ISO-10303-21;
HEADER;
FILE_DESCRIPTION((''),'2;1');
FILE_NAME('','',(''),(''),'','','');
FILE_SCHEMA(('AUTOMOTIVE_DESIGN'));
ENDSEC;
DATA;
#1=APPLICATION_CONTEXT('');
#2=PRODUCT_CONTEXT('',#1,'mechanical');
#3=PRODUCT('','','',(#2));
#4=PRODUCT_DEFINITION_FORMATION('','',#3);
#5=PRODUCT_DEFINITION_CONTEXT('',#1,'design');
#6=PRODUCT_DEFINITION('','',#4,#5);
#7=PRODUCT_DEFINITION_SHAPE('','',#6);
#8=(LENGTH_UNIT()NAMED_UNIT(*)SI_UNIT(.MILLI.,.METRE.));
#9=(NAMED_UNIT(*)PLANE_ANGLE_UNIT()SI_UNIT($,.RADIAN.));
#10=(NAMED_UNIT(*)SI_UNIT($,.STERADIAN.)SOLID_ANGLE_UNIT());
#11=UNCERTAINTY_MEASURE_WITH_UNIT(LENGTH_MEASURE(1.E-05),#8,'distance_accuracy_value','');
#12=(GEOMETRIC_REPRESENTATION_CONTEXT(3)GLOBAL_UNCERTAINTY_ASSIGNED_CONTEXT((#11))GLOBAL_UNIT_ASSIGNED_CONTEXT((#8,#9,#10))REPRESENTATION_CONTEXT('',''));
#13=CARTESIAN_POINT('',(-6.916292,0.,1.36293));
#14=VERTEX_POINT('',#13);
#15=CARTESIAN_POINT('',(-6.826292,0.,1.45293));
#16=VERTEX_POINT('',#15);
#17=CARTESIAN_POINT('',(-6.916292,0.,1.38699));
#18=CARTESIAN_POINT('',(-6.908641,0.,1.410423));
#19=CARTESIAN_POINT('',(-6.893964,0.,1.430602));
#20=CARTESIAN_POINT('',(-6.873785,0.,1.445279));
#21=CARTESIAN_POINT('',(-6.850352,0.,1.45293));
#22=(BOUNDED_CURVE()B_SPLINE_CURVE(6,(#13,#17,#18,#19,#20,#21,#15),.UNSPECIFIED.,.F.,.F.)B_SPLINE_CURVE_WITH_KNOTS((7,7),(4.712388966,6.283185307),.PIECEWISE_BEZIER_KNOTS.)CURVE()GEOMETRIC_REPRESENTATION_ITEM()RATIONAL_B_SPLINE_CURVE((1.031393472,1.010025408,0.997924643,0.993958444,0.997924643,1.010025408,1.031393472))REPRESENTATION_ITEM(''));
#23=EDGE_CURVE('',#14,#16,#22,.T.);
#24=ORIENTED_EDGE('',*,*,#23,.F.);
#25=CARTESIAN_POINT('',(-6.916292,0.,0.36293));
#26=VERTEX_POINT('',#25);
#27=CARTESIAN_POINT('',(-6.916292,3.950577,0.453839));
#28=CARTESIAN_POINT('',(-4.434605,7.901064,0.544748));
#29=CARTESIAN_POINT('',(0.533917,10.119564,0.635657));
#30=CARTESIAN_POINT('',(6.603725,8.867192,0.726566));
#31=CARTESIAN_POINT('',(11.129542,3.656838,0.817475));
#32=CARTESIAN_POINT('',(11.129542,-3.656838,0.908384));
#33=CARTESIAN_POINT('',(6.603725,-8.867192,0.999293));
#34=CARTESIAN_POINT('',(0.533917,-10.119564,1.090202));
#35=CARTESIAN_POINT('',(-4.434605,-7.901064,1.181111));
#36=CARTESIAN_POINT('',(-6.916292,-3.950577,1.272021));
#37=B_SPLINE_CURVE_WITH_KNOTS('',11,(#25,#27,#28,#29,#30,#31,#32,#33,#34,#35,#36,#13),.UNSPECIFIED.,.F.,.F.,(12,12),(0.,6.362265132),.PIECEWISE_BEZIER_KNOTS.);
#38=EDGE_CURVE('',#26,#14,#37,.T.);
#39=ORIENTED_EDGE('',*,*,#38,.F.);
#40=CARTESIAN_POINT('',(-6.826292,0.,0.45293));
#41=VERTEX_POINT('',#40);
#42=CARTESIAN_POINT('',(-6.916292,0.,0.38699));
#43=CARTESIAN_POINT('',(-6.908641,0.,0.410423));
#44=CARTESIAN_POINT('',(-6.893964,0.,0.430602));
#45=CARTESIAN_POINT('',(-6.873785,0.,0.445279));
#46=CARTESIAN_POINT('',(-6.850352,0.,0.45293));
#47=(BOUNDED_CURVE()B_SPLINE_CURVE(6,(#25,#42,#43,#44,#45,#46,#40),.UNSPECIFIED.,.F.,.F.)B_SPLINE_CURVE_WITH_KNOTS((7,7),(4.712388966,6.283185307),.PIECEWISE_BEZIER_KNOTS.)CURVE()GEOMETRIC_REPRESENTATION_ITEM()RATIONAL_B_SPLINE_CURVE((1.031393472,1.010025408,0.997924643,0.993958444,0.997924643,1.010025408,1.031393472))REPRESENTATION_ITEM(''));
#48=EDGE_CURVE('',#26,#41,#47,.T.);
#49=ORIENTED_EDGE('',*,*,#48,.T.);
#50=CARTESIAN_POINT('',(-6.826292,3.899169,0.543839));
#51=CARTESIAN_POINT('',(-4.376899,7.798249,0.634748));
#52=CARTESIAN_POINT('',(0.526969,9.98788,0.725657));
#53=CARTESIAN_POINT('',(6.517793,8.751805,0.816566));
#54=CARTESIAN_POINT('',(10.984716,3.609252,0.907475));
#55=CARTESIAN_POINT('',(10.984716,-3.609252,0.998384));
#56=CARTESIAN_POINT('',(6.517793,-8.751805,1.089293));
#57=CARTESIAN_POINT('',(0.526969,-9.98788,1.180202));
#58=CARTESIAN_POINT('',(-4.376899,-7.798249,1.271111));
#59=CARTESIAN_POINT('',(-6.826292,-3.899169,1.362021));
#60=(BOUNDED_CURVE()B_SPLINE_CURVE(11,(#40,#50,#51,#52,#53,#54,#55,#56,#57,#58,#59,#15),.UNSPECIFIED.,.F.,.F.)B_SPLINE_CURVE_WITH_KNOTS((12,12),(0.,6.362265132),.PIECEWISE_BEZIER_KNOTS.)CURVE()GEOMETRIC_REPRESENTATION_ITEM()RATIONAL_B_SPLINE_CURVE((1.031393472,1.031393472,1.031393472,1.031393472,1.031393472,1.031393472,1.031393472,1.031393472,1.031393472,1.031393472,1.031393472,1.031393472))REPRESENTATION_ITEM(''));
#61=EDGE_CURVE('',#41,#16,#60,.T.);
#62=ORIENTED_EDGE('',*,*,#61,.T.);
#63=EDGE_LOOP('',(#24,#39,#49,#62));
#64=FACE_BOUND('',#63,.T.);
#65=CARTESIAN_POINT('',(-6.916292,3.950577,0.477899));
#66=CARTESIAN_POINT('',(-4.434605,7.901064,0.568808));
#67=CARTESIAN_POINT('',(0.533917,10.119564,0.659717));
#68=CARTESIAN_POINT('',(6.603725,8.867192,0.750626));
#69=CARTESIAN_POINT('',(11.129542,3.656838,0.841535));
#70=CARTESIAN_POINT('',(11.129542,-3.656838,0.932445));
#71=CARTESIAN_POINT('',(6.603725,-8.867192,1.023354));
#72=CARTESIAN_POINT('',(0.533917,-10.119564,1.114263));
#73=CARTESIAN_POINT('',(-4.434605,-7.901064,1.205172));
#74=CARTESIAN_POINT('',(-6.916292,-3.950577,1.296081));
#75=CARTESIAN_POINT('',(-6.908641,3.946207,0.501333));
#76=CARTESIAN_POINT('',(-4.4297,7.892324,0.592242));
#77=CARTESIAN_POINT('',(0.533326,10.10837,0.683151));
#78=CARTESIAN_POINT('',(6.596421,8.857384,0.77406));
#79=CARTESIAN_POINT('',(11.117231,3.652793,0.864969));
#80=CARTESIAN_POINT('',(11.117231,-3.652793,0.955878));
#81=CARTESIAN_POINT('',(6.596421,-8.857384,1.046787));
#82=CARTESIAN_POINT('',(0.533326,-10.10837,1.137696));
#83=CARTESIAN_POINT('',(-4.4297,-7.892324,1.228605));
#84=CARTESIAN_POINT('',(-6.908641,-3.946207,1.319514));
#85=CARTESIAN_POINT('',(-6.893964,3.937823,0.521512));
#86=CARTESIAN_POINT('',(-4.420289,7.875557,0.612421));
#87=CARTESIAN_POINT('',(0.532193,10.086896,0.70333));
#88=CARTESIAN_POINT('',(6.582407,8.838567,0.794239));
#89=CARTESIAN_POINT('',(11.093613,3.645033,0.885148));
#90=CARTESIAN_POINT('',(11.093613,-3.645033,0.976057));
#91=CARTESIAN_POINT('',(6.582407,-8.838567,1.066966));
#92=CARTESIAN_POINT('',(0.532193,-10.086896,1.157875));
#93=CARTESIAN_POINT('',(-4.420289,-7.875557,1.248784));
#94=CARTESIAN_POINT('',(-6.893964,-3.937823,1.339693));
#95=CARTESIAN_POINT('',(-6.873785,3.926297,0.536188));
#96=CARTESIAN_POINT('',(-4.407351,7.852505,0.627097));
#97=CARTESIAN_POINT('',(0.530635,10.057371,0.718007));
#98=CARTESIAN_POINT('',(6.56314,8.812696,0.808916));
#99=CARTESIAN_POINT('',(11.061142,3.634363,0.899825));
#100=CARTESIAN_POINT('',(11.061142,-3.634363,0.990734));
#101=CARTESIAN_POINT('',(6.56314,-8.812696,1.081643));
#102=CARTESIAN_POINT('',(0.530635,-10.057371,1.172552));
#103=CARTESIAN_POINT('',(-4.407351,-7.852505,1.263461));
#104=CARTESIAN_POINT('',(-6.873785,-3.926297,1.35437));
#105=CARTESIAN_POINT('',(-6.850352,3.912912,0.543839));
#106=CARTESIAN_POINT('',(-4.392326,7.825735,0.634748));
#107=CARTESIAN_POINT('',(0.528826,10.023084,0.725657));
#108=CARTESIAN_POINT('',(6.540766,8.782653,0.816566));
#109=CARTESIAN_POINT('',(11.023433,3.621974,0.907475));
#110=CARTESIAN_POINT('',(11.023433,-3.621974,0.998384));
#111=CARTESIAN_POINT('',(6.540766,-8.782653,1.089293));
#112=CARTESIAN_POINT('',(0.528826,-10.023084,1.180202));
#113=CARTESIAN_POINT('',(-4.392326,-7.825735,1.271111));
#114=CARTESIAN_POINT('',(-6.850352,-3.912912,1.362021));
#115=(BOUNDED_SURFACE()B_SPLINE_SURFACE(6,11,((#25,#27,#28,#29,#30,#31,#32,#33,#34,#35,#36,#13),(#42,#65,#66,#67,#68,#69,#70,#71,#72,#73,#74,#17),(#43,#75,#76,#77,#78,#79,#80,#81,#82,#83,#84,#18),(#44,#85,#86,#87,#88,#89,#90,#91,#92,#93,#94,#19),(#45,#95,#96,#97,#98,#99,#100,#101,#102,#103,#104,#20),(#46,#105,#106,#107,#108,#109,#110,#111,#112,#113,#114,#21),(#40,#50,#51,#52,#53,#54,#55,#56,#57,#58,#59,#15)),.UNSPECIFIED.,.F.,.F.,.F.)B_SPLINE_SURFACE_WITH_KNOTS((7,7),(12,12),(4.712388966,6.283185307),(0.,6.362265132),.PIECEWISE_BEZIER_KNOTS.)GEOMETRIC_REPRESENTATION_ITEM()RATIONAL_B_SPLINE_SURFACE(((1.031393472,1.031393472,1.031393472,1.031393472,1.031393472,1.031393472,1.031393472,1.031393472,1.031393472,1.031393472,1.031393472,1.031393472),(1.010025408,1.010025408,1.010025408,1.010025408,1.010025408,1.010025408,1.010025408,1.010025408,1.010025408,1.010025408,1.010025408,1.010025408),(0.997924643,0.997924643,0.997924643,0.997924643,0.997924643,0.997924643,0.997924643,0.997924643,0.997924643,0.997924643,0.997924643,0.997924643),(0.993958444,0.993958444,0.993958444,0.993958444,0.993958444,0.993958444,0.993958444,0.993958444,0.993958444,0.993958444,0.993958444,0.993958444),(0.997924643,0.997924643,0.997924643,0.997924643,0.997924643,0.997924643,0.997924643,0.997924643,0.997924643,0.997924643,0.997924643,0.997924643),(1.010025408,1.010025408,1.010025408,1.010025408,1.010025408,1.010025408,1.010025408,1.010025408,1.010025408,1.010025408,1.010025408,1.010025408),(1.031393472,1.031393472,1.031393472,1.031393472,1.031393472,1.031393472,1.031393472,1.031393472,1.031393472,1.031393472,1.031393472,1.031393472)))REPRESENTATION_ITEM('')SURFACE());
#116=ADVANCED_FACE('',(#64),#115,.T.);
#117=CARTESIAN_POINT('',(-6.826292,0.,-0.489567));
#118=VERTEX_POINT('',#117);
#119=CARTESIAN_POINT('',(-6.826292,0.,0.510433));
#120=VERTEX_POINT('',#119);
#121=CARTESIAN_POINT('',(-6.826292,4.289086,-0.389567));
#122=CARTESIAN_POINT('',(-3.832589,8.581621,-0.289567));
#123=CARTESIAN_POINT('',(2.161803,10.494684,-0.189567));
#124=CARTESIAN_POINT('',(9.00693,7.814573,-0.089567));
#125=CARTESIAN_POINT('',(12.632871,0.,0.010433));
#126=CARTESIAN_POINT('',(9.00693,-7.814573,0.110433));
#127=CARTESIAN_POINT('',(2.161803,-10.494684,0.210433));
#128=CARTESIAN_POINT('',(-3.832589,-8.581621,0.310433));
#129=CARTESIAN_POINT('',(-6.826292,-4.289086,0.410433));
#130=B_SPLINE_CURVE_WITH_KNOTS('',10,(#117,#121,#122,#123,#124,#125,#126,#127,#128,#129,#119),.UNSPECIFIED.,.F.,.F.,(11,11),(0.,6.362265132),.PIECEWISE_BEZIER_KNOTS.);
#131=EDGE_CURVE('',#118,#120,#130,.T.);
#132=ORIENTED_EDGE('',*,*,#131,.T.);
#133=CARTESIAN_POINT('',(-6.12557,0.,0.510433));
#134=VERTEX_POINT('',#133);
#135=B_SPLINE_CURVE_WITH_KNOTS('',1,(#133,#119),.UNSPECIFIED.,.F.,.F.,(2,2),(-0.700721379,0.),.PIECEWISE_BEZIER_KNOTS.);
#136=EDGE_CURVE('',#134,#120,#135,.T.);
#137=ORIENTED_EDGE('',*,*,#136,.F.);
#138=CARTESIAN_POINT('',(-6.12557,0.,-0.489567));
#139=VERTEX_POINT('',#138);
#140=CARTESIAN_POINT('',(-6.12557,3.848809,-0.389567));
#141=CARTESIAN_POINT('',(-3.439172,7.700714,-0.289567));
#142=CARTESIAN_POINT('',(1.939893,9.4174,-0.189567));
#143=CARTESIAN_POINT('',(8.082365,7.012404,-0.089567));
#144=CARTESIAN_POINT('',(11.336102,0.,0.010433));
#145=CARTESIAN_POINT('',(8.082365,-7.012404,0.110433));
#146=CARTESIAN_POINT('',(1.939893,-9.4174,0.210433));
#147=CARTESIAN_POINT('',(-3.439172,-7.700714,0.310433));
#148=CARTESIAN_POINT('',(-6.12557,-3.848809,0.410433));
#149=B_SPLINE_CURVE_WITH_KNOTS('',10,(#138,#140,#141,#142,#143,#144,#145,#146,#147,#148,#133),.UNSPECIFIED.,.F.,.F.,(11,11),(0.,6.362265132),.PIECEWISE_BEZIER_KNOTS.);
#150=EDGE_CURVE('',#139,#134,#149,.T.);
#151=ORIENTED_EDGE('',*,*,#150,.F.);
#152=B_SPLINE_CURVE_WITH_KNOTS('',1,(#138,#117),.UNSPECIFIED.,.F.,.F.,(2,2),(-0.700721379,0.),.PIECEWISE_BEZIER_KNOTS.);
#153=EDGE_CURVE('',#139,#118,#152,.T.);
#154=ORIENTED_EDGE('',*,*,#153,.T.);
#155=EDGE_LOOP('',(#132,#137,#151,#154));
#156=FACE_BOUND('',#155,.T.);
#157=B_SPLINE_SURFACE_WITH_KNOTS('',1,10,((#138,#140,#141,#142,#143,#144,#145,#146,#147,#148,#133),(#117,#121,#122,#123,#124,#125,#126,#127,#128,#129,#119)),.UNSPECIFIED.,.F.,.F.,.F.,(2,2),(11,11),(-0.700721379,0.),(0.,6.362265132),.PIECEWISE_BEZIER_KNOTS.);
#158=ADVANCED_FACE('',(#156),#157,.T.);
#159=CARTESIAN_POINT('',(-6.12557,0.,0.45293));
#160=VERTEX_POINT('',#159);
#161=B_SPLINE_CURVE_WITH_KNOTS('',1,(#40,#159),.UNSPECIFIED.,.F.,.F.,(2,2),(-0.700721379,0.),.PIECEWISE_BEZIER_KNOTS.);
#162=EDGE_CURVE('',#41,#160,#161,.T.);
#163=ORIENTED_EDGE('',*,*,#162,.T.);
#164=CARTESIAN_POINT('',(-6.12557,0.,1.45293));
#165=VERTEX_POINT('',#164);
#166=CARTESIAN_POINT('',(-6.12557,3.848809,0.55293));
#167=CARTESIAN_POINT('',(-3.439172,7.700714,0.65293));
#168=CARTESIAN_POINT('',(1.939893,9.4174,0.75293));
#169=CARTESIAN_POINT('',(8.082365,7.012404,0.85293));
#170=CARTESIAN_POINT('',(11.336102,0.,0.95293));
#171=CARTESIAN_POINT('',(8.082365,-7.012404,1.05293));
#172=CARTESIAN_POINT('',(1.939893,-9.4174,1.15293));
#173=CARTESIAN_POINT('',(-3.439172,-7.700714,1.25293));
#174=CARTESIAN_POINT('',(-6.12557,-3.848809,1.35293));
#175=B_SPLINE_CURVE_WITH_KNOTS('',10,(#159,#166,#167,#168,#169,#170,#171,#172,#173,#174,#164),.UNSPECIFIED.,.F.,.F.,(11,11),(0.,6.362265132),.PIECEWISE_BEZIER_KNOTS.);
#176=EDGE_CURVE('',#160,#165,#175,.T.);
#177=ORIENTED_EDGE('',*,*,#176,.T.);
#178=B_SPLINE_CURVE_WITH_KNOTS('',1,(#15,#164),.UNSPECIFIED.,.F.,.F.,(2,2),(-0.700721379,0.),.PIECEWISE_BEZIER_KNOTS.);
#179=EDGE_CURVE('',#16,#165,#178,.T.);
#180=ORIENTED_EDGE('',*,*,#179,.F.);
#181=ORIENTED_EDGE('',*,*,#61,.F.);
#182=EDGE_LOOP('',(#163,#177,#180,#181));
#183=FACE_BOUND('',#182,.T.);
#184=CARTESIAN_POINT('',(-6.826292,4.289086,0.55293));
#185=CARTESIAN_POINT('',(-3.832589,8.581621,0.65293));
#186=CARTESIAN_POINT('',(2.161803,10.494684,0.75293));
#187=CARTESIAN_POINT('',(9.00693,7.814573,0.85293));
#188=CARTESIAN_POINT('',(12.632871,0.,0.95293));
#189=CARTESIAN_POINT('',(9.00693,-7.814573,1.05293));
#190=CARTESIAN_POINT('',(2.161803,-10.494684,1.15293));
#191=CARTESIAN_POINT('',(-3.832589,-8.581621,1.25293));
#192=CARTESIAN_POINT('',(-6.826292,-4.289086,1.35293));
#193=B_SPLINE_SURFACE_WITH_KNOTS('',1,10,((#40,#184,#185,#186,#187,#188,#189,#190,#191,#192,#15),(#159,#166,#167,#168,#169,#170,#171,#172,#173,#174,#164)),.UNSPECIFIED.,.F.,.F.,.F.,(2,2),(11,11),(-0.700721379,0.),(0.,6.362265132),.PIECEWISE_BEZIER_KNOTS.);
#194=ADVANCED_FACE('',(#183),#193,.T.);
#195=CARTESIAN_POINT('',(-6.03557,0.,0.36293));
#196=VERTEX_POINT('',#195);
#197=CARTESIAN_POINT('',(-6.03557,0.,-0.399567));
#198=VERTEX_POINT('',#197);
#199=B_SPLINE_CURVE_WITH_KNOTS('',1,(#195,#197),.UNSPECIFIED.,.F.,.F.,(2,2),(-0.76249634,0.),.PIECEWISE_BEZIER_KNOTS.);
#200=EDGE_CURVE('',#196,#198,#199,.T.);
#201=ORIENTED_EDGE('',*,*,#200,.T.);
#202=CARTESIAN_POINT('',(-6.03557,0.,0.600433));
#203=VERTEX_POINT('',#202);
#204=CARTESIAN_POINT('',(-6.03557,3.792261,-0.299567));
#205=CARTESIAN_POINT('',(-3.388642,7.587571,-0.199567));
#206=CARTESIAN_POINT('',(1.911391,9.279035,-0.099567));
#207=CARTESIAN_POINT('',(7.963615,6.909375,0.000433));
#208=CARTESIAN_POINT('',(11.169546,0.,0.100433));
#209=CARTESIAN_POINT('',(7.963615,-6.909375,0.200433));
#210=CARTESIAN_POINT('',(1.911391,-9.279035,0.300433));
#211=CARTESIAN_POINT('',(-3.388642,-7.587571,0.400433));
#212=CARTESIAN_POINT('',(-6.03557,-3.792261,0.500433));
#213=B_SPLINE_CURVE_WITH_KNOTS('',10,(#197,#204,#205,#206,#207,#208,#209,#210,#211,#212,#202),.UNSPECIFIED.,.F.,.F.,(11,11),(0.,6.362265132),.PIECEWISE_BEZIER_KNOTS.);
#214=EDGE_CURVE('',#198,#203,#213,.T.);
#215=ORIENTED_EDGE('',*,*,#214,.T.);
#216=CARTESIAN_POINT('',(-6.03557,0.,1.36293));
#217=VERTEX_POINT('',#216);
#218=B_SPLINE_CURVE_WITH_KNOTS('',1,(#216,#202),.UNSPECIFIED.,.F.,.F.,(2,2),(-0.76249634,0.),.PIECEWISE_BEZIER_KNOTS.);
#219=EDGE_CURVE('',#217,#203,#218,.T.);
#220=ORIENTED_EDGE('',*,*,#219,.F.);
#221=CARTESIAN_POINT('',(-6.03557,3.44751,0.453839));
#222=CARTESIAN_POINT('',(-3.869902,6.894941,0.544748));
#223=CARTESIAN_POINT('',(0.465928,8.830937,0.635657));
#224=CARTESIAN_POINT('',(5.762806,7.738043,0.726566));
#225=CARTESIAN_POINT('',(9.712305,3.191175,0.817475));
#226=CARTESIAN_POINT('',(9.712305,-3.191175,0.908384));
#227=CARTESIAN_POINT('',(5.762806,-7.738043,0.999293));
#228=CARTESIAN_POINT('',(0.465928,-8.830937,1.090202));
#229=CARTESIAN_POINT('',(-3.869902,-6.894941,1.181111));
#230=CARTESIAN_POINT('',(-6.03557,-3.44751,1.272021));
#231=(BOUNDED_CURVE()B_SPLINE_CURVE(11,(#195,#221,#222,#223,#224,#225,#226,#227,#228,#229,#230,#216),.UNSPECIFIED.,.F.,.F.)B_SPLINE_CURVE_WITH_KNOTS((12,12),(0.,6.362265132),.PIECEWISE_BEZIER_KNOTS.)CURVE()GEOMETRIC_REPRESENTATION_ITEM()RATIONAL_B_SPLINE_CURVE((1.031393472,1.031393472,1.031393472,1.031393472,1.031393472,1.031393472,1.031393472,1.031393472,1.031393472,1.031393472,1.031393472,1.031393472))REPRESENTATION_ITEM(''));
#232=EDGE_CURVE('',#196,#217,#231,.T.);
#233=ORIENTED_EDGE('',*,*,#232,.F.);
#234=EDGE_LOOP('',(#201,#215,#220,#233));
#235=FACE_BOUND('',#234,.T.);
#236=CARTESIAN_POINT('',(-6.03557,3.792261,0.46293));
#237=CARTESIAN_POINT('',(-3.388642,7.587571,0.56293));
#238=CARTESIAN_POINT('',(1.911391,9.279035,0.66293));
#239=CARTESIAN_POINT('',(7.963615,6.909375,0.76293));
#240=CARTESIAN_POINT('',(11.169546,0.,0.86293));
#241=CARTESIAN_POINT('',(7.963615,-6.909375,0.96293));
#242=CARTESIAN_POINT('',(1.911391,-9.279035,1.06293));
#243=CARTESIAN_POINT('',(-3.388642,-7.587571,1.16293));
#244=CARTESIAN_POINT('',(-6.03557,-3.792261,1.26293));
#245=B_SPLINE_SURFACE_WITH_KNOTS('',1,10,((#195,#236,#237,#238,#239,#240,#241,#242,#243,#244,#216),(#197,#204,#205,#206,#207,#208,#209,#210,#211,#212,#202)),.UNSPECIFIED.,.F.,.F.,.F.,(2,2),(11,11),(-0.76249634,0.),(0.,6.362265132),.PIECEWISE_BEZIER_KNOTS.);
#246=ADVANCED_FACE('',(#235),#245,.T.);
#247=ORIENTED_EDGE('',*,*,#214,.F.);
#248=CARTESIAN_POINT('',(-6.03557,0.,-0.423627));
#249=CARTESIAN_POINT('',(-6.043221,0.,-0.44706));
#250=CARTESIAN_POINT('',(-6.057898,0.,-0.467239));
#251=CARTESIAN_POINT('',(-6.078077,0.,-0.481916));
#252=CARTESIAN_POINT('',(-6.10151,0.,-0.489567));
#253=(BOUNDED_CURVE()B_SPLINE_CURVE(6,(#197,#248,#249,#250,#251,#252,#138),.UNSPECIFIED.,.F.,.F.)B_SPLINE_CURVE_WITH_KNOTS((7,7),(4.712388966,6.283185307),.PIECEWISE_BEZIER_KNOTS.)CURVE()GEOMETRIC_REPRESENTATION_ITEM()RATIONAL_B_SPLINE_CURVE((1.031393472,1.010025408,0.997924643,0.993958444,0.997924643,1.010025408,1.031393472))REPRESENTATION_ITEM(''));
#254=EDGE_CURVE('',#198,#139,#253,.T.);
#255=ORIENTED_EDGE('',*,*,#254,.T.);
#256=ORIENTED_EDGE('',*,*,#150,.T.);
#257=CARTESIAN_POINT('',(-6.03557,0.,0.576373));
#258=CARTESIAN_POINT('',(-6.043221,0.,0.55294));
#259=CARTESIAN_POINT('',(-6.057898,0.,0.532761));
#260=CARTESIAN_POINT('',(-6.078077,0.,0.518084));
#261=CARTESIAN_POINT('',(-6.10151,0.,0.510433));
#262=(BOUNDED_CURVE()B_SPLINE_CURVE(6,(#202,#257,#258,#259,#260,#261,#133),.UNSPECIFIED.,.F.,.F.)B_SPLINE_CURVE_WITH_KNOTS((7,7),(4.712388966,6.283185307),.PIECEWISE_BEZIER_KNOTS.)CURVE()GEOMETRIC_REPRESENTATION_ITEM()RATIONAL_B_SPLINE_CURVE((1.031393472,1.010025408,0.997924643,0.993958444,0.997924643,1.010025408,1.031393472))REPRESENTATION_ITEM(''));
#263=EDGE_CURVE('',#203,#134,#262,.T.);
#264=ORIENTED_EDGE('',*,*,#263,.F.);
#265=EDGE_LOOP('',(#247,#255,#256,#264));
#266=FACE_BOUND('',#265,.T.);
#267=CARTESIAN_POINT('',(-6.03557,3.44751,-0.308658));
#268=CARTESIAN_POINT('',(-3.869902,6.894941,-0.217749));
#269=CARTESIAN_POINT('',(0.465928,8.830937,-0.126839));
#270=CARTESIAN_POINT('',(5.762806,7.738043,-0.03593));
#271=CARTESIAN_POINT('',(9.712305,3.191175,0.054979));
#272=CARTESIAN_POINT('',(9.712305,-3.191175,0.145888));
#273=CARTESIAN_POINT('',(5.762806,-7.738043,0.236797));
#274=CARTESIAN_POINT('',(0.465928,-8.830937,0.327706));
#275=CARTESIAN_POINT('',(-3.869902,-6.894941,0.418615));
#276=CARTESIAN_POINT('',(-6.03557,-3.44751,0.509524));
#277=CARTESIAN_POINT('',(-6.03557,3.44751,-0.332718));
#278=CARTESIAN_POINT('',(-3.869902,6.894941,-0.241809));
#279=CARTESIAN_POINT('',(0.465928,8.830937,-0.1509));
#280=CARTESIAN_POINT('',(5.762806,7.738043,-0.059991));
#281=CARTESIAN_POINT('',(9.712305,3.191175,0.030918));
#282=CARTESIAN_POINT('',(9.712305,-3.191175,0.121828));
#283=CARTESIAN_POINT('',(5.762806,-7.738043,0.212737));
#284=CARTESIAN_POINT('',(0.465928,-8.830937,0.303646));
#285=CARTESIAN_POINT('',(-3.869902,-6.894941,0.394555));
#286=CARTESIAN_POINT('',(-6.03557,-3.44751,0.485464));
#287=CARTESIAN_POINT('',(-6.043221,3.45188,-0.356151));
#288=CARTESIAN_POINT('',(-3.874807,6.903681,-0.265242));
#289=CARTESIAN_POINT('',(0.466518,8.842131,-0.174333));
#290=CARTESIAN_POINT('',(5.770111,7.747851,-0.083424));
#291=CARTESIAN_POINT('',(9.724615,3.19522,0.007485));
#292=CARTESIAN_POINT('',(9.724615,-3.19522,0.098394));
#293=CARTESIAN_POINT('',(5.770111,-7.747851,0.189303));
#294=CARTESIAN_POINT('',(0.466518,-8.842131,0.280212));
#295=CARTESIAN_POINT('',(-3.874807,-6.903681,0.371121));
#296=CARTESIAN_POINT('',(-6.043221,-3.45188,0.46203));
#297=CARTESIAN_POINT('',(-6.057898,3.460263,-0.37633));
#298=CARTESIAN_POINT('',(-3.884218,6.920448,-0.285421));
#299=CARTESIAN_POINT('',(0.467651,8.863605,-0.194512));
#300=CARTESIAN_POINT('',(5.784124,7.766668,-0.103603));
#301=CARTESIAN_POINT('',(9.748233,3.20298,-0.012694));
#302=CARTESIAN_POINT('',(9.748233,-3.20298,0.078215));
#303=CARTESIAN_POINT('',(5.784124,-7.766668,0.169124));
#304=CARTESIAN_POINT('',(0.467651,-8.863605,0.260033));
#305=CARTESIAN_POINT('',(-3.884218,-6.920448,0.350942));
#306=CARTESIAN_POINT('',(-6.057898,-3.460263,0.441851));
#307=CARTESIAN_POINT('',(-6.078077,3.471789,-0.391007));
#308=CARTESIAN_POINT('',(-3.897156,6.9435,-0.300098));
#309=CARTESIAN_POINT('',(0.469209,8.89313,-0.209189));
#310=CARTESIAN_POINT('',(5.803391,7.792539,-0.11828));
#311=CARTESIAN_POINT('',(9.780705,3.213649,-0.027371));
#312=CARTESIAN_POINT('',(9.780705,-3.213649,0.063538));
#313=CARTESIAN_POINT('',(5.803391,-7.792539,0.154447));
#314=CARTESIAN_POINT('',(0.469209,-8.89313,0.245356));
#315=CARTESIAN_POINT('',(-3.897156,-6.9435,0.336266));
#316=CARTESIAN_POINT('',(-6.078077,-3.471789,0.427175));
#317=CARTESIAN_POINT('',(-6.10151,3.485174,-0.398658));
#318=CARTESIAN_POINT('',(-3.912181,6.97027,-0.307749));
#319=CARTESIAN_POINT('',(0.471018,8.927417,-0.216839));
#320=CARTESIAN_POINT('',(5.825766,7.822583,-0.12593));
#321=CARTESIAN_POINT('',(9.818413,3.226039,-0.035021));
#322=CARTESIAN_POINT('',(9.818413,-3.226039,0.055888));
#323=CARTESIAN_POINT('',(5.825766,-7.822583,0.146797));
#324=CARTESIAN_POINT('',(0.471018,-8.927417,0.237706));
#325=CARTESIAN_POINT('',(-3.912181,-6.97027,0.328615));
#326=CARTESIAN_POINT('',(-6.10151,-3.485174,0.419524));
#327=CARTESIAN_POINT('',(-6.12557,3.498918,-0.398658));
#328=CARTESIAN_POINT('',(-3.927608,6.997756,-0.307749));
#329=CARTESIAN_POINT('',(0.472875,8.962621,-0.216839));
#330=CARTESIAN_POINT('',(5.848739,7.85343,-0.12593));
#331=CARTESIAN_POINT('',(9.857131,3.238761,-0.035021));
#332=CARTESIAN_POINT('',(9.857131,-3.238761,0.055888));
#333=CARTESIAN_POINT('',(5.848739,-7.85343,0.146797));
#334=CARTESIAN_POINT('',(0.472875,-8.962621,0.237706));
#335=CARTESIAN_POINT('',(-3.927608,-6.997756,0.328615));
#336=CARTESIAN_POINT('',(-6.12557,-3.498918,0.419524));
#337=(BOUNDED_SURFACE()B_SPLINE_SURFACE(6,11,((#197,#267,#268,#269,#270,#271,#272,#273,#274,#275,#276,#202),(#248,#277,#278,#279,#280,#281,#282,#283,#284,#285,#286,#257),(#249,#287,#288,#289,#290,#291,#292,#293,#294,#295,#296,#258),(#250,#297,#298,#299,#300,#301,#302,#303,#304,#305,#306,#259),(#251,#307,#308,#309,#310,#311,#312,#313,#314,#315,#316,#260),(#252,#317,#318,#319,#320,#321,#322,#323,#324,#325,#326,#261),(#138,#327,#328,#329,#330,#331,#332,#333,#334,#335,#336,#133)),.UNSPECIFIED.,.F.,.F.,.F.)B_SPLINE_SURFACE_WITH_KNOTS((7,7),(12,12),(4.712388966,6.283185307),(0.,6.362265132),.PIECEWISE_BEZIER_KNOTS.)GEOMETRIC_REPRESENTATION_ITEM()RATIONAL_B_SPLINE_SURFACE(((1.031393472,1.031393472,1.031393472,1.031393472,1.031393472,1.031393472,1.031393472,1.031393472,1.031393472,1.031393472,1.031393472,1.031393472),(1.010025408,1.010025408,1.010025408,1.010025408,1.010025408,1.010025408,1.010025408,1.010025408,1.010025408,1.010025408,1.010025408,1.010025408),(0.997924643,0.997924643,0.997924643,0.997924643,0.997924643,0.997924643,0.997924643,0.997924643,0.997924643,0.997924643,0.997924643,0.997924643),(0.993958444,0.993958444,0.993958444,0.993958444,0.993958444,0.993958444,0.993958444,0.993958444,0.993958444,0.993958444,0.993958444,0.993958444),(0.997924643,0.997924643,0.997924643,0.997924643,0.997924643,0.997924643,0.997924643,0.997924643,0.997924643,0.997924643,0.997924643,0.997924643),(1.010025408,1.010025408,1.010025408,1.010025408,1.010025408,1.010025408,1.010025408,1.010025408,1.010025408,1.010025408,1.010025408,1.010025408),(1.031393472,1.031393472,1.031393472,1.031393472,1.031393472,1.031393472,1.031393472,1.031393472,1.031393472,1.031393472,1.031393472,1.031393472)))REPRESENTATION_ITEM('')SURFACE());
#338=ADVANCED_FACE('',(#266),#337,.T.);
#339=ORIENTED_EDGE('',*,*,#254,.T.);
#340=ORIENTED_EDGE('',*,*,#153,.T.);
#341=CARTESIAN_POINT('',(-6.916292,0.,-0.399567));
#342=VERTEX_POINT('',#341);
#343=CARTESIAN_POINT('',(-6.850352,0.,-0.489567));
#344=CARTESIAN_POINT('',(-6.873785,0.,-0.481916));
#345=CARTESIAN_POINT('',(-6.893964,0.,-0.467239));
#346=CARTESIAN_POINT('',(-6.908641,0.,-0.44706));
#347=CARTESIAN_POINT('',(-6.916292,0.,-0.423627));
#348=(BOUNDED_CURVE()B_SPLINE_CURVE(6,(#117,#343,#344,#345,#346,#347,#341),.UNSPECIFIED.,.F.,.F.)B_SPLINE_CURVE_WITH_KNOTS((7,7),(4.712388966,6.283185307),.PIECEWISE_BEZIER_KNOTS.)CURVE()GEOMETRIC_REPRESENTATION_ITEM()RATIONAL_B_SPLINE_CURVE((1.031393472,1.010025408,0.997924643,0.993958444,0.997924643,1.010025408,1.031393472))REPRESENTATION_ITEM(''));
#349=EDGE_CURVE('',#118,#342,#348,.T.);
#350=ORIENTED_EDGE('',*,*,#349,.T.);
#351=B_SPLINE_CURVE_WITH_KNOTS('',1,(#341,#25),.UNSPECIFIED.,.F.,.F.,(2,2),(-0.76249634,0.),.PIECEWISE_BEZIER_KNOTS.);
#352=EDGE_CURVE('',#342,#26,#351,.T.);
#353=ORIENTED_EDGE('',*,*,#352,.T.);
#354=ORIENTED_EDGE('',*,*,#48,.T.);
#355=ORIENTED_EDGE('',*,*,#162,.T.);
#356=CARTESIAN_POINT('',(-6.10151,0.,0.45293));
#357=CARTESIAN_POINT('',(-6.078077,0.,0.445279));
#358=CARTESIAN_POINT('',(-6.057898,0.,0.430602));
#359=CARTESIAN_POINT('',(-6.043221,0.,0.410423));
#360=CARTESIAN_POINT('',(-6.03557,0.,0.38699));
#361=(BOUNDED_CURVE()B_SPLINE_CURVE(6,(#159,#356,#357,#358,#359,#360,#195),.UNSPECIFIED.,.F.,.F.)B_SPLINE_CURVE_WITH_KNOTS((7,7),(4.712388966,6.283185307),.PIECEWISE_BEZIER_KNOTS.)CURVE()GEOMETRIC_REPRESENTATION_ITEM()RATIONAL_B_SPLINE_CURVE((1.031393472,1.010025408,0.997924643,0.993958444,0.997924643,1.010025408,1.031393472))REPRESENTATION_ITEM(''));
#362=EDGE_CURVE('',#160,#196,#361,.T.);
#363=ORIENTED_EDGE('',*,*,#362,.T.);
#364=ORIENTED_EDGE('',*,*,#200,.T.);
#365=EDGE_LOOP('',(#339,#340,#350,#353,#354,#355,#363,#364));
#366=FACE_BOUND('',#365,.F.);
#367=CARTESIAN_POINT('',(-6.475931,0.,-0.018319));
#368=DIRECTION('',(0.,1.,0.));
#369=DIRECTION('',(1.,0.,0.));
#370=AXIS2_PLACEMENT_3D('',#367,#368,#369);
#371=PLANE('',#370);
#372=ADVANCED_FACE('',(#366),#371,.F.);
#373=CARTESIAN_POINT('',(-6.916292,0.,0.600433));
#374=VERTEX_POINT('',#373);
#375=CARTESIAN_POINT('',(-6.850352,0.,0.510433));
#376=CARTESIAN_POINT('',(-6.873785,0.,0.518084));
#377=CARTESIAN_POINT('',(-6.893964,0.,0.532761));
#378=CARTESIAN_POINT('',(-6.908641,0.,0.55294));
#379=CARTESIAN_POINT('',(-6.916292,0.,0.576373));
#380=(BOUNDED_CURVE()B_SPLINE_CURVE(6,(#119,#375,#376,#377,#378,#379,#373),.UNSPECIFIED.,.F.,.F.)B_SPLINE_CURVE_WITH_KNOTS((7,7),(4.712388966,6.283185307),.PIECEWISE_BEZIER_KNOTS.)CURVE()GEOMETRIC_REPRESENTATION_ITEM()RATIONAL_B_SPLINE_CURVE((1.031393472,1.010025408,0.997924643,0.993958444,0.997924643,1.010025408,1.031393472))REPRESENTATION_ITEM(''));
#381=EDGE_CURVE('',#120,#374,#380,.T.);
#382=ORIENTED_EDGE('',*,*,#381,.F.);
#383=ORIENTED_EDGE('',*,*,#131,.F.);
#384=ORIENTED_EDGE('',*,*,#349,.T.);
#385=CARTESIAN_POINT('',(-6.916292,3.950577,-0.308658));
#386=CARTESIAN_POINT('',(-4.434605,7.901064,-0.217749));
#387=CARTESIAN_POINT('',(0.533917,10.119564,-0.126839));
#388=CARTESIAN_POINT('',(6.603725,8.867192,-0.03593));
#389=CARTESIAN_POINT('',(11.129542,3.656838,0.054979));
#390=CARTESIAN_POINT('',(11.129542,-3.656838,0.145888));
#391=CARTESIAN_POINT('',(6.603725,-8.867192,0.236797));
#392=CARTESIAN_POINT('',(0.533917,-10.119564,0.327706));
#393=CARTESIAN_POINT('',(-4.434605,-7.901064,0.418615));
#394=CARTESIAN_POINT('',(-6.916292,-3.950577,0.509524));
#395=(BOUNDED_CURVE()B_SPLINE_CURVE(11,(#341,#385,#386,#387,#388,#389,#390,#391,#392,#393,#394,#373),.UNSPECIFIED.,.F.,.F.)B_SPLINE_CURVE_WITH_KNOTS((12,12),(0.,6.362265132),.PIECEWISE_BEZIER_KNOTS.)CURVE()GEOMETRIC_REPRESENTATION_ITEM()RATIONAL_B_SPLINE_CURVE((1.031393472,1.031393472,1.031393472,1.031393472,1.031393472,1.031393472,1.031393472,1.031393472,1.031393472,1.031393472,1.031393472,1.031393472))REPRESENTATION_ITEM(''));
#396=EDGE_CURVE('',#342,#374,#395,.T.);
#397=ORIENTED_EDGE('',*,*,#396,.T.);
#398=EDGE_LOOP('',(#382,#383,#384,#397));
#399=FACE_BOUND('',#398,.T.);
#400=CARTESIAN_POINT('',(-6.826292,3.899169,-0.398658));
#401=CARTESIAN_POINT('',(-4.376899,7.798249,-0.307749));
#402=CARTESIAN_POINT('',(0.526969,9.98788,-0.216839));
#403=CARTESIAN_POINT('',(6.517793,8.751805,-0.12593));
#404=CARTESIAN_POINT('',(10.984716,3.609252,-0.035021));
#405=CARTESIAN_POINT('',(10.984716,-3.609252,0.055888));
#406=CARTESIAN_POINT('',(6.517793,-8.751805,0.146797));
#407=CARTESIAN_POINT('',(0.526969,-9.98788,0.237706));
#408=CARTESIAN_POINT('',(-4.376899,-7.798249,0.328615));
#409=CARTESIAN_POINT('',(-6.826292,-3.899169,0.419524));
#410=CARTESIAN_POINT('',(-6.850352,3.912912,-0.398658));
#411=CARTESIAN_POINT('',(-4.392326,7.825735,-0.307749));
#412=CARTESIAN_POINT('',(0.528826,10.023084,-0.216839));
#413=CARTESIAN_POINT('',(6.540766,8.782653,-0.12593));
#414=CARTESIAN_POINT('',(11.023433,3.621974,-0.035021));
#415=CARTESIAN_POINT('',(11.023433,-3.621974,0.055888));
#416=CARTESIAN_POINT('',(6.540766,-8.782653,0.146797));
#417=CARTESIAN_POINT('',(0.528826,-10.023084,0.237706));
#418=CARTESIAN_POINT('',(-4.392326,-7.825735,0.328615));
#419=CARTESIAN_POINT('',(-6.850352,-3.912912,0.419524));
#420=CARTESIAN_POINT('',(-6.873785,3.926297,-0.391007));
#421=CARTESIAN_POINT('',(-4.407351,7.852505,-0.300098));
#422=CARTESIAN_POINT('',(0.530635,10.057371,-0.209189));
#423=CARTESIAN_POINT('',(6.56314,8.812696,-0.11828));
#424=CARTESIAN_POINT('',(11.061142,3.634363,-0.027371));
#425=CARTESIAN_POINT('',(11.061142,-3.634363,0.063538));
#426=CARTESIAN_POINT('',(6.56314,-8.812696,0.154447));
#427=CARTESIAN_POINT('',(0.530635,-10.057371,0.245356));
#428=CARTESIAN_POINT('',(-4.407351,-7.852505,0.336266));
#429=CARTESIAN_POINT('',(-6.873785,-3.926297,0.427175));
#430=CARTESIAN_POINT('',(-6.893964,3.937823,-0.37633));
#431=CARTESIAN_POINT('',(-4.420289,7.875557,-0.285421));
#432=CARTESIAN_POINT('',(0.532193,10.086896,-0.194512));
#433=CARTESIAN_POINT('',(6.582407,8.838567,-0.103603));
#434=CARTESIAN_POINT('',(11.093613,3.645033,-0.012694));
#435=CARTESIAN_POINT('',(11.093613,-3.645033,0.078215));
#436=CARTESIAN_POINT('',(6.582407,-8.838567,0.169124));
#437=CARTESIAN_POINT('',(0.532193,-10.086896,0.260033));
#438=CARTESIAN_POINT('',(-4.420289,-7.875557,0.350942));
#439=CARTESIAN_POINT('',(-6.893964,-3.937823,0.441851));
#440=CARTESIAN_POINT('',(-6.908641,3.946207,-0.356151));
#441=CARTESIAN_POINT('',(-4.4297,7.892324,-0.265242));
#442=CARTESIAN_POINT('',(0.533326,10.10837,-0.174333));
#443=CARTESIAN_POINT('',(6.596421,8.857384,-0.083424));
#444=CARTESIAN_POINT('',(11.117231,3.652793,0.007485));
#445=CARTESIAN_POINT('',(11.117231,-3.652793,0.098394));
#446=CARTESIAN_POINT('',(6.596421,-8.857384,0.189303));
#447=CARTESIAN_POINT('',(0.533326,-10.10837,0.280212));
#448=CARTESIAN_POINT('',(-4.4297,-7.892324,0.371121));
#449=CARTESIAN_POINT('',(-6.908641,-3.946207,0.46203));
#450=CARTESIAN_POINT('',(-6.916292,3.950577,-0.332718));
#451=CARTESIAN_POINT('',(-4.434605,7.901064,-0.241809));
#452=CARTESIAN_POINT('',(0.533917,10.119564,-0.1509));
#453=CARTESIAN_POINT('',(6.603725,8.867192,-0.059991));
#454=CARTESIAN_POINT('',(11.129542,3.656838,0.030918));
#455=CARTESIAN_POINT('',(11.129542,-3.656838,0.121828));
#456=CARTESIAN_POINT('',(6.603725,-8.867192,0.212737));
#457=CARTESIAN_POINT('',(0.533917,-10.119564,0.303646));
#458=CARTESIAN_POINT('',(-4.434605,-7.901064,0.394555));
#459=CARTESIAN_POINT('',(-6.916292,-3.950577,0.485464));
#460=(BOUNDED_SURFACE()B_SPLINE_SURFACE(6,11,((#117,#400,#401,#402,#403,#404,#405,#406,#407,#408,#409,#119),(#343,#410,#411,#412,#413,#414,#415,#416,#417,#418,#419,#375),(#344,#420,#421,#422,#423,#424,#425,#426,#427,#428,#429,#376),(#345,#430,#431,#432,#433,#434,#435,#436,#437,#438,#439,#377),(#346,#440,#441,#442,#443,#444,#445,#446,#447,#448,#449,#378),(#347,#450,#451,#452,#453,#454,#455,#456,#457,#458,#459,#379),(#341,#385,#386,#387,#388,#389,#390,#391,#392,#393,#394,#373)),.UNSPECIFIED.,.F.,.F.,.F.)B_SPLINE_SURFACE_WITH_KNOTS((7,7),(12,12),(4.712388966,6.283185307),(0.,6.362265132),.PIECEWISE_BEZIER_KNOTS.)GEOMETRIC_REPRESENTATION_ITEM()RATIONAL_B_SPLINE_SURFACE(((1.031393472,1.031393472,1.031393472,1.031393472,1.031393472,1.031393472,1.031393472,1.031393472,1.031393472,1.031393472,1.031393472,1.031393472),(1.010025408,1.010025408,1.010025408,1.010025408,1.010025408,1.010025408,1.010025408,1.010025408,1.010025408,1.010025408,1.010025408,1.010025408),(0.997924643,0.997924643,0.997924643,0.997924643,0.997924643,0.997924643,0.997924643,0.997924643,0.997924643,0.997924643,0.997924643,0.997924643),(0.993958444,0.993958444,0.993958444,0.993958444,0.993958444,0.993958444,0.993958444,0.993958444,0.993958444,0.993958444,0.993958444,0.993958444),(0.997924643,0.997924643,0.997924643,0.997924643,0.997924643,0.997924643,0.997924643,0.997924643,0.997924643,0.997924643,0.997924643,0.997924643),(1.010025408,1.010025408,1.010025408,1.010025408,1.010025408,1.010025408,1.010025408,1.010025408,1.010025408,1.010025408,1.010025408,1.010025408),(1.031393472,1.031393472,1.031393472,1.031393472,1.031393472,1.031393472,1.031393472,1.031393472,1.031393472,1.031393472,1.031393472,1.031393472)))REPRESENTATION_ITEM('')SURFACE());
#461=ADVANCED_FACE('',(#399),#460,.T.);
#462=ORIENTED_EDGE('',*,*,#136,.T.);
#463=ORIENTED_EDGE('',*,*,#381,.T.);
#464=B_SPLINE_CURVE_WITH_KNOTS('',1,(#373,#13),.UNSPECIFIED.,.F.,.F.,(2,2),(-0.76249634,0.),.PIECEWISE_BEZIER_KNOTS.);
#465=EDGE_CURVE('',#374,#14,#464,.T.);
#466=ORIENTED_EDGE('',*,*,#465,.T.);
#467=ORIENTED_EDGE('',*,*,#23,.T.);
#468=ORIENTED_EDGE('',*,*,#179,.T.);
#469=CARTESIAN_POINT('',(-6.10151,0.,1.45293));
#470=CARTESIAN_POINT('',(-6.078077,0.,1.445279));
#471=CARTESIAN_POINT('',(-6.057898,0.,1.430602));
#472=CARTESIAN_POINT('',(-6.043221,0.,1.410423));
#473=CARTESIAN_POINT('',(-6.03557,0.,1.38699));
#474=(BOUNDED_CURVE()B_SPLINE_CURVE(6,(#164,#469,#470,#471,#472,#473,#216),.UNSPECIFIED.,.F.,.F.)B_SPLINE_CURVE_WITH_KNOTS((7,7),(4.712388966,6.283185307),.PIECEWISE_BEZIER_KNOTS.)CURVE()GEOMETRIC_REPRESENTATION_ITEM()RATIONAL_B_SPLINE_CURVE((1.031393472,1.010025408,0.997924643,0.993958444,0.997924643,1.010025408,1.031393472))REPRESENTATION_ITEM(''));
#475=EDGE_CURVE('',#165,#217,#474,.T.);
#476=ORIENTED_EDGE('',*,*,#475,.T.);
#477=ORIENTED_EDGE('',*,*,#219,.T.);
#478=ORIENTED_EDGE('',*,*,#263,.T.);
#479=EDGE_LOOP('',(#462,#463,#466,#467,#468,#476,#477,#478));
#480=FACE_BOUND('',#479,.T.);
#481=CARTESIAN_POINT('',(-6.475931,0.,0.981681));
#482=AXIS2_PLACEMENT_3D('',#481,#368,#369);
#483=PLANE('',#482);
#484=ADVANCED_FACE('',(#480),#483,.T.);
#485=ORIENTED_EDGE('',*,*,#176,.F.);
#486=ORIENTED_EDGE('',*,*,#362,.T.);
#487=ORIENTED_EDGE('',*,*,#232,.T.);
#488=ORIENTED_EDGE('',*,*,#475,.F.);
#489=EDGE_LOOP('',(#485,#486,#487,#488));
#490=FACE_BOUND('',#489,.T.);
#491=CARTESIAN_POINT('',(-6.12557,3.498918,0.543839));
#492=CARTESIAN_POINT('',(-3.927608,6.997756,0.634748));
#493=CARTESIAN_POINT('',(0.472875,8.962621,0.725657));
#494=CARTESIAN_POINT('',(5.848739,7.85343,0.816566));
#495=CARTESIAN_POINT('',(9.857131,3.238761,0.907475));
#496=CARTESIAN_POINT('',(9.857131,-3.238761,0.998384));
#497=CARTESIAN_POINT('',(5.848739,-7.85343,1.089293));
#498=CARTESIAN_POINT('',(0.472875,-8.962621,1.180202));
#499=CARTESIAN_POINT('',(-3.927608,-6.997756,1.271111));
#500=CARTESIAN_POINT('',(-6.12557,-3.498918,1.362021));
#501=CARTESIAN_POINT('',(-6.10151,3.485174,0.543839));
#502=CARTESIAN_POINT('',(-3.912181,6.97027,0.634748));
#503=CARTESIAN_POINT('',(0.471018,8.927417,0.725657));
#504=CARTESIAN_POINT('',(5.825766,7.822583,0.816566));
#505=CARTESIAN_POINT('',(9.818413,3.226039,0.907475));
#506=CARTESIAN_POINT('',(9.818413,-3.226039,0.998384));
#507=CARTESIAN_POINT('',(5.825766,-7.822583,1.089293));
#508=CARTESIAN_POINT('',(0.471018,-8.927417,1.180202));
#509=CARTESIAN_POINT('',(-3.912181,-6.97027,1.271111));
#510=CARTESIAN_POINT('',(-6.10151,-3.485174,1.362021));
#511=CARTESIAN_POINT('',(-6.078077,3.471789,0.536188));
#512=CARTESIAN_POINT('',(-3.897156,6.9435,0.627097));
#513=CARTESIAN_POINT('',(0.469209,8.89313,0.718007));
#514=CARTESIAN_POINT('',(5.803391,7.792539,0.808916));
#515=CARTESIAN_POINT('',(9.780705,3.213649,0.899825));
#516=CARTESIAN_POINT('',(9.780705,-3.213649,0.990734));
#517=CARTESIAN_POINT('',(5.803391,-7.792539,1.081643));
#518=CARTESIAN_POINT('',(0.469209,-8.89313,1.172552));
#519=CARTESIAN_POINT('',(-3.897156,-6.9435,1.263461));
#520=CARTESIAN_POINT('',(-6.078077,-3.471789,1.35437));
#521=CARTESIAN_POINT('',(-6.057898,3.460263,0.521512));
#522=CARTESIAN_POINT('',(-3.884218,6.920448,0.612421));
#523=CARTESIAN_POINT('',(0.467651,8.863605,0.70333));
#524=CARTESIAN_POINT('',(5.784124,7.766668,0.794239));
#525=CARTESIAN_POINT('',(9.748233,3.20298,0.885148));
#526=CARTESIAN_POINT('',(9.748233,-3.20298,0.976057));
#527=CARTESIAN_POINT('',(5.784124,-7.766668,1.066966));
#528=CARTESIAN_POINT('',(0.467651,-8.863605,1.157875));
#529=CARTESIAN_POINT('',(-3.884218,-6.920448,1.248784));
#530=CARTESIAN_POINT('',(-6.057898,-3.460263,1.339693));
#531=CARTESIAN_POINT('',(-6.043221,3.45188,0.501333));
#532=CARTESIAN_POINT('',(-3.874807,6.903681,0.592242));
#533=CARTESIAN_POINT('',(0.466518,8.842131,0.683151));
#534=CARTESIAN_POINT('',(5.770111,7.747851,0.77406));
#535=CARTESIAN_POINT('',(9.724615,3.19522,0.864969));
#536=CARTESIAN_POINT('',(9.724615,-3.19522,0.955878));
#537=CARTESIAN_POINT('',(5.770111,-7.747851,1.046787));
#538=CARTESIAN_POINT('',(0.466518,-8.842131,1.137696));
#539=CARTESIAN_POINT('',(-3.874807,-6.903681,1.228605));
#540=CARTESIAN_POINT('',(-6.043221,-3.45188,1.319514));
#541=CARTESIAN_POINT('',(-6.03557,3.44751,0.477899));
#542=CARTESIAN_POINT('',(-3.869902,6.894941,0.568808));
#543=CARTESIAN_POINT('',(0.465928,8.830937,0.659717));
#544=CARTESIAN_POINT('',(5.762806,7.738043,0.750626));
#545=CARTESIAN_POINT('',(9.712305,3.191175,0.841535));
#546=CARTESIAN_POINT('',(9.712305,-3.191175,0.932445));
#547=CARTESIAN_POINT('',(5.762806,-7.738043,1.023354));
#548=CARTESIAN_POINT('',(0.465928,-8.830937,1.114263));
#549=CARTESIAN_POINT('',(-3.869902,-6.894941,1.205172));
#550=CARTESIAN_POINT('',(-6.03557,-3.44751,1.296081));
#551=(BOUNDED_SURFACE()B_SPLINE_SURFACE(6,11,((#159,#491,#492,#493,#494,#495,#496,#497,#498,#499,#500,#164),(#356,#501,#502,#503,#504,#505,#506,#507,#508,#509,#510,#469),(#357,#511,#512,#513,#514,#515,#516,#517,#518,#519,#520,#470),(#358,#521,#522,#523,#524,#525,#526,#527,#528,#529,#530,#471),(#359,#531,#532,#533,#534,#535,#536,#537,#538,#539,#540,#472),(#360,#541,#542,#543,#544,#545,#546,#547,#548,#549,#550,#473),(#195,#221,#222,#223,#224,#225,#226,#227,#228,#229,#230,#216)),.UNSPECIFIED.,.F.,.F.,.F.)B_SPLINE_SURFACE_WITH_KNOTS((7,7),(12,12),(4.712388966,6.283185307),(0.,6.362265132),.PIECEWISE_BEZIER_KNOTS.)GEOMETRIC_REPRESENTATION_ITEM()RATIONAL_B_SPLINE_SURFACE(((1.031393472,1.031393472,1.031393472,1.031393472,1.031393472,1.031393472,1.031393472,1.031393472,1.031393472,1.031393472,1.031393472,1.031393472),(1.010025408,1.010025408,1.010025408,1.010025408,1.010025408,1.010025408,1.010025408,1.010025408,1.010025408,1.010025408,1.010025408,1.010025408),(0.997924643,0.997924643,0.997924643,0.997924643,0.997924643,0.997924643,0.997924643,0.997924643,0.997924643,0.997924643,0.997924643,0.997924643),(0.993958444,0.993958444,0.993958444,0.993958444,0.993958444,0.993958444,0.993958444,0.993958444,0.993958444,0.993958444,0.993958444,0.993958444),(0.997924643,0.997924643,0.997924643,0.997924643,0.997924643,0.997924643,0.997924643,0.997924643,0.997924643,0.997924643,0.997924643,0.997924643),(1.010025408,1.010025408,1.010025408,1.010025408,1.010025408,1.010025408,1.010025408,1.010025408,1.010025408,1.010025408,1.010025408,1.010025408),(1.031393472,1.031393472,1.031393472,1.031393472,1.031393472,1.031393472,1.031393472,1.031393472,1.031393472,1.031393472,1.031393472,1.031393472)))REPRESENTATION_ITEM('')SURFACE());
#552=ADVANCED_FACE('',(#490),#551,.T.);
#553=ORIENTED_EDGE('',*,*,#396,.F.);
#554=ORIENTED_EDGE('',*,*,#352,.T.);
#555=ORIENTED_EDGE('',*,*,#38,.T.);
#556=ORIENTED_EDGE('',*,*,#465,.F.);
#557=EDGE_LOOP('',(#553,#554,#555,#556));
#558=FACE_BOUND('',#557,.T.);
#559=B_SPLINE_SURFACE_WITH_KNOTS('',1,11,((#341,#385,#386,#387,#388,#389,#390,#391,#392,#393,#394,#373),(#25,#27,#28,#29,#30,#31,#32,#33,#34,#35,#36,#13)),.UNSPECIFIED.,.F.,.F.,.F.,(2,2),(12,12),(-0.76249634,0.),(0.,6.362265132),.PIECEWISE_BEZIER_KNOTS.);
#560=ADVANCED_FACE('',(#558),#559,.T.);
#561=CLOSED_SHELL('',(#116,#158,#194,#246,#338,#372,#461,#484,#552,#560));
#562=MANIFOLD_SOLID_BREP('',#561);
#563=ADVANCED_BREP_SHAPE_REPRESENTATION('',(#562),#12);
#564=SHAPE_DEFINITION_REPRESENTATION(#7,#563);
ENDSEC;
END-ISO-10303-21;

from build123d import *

# Parameters (mm, degrees)
SWEEP4_PITCH       = 1
SWEEP4_HEIGHT      = 1
SWEEP4_RADIUS      = 6.5
SWEEP4_START_ANGLE = -180


with BuildPart() as part:
    # Sweep4: sweep along a helix
    with BuildLine() as sweep4_path:
        add(Helix(SWEEP4_PITCH, SWEEP4_HEIGHT, SWEEP4_RADIUS, center=(0, 0, 0), direction=(0, 0, 1), lefthand=True, mode=Mode.PRIVATE).rotate(Axis((0, 0, 0), (0, 0, 1)), SWEEP4_START_ANGLE))
    # Sketch3 → Sweep4 (sweep)
    with BuildSketch(Plane(origin=(0, 0, 0), x_dir=(1, 0, 0), z_dir=(0, 1, 0))):
        with BuildLine():
            Line((-6.8262917, -0.510433316), (-6.125570321, -0.510433316))
            ThreePointArc((-6.125570321, -0.510433316), (-6.06193071, -0.536793706), (-6.035570321, -0.600433316))
            Line((-6.035570321, -0.600433316), (-6.035570321, -1.362929656))
            ThreePointArc((-6.035570321, -1.362929656), (-6.06193071, -1.426569266), (-6.125570321, -1.452929656))
            Line((-6.125570321, -1.452929656), (-6.8262917, -1.452929656))
            ThreePointArc((-6.8262917, -1.452929656), (-6.889931311, -1.426569266), (-6.9162917, -1.362929656))
            Line((-6.9162917, -1.362929656), (-6.9162917, -0.600433316))
            ThreePointArc((-6.9162917, -0.600433316), (-6.889931311, -0.536793706), (-6.8262917, -0.510433316))
        make_face()
    sweep(path=sweep4_path.line, is_frenet=True)


solid = part.part
